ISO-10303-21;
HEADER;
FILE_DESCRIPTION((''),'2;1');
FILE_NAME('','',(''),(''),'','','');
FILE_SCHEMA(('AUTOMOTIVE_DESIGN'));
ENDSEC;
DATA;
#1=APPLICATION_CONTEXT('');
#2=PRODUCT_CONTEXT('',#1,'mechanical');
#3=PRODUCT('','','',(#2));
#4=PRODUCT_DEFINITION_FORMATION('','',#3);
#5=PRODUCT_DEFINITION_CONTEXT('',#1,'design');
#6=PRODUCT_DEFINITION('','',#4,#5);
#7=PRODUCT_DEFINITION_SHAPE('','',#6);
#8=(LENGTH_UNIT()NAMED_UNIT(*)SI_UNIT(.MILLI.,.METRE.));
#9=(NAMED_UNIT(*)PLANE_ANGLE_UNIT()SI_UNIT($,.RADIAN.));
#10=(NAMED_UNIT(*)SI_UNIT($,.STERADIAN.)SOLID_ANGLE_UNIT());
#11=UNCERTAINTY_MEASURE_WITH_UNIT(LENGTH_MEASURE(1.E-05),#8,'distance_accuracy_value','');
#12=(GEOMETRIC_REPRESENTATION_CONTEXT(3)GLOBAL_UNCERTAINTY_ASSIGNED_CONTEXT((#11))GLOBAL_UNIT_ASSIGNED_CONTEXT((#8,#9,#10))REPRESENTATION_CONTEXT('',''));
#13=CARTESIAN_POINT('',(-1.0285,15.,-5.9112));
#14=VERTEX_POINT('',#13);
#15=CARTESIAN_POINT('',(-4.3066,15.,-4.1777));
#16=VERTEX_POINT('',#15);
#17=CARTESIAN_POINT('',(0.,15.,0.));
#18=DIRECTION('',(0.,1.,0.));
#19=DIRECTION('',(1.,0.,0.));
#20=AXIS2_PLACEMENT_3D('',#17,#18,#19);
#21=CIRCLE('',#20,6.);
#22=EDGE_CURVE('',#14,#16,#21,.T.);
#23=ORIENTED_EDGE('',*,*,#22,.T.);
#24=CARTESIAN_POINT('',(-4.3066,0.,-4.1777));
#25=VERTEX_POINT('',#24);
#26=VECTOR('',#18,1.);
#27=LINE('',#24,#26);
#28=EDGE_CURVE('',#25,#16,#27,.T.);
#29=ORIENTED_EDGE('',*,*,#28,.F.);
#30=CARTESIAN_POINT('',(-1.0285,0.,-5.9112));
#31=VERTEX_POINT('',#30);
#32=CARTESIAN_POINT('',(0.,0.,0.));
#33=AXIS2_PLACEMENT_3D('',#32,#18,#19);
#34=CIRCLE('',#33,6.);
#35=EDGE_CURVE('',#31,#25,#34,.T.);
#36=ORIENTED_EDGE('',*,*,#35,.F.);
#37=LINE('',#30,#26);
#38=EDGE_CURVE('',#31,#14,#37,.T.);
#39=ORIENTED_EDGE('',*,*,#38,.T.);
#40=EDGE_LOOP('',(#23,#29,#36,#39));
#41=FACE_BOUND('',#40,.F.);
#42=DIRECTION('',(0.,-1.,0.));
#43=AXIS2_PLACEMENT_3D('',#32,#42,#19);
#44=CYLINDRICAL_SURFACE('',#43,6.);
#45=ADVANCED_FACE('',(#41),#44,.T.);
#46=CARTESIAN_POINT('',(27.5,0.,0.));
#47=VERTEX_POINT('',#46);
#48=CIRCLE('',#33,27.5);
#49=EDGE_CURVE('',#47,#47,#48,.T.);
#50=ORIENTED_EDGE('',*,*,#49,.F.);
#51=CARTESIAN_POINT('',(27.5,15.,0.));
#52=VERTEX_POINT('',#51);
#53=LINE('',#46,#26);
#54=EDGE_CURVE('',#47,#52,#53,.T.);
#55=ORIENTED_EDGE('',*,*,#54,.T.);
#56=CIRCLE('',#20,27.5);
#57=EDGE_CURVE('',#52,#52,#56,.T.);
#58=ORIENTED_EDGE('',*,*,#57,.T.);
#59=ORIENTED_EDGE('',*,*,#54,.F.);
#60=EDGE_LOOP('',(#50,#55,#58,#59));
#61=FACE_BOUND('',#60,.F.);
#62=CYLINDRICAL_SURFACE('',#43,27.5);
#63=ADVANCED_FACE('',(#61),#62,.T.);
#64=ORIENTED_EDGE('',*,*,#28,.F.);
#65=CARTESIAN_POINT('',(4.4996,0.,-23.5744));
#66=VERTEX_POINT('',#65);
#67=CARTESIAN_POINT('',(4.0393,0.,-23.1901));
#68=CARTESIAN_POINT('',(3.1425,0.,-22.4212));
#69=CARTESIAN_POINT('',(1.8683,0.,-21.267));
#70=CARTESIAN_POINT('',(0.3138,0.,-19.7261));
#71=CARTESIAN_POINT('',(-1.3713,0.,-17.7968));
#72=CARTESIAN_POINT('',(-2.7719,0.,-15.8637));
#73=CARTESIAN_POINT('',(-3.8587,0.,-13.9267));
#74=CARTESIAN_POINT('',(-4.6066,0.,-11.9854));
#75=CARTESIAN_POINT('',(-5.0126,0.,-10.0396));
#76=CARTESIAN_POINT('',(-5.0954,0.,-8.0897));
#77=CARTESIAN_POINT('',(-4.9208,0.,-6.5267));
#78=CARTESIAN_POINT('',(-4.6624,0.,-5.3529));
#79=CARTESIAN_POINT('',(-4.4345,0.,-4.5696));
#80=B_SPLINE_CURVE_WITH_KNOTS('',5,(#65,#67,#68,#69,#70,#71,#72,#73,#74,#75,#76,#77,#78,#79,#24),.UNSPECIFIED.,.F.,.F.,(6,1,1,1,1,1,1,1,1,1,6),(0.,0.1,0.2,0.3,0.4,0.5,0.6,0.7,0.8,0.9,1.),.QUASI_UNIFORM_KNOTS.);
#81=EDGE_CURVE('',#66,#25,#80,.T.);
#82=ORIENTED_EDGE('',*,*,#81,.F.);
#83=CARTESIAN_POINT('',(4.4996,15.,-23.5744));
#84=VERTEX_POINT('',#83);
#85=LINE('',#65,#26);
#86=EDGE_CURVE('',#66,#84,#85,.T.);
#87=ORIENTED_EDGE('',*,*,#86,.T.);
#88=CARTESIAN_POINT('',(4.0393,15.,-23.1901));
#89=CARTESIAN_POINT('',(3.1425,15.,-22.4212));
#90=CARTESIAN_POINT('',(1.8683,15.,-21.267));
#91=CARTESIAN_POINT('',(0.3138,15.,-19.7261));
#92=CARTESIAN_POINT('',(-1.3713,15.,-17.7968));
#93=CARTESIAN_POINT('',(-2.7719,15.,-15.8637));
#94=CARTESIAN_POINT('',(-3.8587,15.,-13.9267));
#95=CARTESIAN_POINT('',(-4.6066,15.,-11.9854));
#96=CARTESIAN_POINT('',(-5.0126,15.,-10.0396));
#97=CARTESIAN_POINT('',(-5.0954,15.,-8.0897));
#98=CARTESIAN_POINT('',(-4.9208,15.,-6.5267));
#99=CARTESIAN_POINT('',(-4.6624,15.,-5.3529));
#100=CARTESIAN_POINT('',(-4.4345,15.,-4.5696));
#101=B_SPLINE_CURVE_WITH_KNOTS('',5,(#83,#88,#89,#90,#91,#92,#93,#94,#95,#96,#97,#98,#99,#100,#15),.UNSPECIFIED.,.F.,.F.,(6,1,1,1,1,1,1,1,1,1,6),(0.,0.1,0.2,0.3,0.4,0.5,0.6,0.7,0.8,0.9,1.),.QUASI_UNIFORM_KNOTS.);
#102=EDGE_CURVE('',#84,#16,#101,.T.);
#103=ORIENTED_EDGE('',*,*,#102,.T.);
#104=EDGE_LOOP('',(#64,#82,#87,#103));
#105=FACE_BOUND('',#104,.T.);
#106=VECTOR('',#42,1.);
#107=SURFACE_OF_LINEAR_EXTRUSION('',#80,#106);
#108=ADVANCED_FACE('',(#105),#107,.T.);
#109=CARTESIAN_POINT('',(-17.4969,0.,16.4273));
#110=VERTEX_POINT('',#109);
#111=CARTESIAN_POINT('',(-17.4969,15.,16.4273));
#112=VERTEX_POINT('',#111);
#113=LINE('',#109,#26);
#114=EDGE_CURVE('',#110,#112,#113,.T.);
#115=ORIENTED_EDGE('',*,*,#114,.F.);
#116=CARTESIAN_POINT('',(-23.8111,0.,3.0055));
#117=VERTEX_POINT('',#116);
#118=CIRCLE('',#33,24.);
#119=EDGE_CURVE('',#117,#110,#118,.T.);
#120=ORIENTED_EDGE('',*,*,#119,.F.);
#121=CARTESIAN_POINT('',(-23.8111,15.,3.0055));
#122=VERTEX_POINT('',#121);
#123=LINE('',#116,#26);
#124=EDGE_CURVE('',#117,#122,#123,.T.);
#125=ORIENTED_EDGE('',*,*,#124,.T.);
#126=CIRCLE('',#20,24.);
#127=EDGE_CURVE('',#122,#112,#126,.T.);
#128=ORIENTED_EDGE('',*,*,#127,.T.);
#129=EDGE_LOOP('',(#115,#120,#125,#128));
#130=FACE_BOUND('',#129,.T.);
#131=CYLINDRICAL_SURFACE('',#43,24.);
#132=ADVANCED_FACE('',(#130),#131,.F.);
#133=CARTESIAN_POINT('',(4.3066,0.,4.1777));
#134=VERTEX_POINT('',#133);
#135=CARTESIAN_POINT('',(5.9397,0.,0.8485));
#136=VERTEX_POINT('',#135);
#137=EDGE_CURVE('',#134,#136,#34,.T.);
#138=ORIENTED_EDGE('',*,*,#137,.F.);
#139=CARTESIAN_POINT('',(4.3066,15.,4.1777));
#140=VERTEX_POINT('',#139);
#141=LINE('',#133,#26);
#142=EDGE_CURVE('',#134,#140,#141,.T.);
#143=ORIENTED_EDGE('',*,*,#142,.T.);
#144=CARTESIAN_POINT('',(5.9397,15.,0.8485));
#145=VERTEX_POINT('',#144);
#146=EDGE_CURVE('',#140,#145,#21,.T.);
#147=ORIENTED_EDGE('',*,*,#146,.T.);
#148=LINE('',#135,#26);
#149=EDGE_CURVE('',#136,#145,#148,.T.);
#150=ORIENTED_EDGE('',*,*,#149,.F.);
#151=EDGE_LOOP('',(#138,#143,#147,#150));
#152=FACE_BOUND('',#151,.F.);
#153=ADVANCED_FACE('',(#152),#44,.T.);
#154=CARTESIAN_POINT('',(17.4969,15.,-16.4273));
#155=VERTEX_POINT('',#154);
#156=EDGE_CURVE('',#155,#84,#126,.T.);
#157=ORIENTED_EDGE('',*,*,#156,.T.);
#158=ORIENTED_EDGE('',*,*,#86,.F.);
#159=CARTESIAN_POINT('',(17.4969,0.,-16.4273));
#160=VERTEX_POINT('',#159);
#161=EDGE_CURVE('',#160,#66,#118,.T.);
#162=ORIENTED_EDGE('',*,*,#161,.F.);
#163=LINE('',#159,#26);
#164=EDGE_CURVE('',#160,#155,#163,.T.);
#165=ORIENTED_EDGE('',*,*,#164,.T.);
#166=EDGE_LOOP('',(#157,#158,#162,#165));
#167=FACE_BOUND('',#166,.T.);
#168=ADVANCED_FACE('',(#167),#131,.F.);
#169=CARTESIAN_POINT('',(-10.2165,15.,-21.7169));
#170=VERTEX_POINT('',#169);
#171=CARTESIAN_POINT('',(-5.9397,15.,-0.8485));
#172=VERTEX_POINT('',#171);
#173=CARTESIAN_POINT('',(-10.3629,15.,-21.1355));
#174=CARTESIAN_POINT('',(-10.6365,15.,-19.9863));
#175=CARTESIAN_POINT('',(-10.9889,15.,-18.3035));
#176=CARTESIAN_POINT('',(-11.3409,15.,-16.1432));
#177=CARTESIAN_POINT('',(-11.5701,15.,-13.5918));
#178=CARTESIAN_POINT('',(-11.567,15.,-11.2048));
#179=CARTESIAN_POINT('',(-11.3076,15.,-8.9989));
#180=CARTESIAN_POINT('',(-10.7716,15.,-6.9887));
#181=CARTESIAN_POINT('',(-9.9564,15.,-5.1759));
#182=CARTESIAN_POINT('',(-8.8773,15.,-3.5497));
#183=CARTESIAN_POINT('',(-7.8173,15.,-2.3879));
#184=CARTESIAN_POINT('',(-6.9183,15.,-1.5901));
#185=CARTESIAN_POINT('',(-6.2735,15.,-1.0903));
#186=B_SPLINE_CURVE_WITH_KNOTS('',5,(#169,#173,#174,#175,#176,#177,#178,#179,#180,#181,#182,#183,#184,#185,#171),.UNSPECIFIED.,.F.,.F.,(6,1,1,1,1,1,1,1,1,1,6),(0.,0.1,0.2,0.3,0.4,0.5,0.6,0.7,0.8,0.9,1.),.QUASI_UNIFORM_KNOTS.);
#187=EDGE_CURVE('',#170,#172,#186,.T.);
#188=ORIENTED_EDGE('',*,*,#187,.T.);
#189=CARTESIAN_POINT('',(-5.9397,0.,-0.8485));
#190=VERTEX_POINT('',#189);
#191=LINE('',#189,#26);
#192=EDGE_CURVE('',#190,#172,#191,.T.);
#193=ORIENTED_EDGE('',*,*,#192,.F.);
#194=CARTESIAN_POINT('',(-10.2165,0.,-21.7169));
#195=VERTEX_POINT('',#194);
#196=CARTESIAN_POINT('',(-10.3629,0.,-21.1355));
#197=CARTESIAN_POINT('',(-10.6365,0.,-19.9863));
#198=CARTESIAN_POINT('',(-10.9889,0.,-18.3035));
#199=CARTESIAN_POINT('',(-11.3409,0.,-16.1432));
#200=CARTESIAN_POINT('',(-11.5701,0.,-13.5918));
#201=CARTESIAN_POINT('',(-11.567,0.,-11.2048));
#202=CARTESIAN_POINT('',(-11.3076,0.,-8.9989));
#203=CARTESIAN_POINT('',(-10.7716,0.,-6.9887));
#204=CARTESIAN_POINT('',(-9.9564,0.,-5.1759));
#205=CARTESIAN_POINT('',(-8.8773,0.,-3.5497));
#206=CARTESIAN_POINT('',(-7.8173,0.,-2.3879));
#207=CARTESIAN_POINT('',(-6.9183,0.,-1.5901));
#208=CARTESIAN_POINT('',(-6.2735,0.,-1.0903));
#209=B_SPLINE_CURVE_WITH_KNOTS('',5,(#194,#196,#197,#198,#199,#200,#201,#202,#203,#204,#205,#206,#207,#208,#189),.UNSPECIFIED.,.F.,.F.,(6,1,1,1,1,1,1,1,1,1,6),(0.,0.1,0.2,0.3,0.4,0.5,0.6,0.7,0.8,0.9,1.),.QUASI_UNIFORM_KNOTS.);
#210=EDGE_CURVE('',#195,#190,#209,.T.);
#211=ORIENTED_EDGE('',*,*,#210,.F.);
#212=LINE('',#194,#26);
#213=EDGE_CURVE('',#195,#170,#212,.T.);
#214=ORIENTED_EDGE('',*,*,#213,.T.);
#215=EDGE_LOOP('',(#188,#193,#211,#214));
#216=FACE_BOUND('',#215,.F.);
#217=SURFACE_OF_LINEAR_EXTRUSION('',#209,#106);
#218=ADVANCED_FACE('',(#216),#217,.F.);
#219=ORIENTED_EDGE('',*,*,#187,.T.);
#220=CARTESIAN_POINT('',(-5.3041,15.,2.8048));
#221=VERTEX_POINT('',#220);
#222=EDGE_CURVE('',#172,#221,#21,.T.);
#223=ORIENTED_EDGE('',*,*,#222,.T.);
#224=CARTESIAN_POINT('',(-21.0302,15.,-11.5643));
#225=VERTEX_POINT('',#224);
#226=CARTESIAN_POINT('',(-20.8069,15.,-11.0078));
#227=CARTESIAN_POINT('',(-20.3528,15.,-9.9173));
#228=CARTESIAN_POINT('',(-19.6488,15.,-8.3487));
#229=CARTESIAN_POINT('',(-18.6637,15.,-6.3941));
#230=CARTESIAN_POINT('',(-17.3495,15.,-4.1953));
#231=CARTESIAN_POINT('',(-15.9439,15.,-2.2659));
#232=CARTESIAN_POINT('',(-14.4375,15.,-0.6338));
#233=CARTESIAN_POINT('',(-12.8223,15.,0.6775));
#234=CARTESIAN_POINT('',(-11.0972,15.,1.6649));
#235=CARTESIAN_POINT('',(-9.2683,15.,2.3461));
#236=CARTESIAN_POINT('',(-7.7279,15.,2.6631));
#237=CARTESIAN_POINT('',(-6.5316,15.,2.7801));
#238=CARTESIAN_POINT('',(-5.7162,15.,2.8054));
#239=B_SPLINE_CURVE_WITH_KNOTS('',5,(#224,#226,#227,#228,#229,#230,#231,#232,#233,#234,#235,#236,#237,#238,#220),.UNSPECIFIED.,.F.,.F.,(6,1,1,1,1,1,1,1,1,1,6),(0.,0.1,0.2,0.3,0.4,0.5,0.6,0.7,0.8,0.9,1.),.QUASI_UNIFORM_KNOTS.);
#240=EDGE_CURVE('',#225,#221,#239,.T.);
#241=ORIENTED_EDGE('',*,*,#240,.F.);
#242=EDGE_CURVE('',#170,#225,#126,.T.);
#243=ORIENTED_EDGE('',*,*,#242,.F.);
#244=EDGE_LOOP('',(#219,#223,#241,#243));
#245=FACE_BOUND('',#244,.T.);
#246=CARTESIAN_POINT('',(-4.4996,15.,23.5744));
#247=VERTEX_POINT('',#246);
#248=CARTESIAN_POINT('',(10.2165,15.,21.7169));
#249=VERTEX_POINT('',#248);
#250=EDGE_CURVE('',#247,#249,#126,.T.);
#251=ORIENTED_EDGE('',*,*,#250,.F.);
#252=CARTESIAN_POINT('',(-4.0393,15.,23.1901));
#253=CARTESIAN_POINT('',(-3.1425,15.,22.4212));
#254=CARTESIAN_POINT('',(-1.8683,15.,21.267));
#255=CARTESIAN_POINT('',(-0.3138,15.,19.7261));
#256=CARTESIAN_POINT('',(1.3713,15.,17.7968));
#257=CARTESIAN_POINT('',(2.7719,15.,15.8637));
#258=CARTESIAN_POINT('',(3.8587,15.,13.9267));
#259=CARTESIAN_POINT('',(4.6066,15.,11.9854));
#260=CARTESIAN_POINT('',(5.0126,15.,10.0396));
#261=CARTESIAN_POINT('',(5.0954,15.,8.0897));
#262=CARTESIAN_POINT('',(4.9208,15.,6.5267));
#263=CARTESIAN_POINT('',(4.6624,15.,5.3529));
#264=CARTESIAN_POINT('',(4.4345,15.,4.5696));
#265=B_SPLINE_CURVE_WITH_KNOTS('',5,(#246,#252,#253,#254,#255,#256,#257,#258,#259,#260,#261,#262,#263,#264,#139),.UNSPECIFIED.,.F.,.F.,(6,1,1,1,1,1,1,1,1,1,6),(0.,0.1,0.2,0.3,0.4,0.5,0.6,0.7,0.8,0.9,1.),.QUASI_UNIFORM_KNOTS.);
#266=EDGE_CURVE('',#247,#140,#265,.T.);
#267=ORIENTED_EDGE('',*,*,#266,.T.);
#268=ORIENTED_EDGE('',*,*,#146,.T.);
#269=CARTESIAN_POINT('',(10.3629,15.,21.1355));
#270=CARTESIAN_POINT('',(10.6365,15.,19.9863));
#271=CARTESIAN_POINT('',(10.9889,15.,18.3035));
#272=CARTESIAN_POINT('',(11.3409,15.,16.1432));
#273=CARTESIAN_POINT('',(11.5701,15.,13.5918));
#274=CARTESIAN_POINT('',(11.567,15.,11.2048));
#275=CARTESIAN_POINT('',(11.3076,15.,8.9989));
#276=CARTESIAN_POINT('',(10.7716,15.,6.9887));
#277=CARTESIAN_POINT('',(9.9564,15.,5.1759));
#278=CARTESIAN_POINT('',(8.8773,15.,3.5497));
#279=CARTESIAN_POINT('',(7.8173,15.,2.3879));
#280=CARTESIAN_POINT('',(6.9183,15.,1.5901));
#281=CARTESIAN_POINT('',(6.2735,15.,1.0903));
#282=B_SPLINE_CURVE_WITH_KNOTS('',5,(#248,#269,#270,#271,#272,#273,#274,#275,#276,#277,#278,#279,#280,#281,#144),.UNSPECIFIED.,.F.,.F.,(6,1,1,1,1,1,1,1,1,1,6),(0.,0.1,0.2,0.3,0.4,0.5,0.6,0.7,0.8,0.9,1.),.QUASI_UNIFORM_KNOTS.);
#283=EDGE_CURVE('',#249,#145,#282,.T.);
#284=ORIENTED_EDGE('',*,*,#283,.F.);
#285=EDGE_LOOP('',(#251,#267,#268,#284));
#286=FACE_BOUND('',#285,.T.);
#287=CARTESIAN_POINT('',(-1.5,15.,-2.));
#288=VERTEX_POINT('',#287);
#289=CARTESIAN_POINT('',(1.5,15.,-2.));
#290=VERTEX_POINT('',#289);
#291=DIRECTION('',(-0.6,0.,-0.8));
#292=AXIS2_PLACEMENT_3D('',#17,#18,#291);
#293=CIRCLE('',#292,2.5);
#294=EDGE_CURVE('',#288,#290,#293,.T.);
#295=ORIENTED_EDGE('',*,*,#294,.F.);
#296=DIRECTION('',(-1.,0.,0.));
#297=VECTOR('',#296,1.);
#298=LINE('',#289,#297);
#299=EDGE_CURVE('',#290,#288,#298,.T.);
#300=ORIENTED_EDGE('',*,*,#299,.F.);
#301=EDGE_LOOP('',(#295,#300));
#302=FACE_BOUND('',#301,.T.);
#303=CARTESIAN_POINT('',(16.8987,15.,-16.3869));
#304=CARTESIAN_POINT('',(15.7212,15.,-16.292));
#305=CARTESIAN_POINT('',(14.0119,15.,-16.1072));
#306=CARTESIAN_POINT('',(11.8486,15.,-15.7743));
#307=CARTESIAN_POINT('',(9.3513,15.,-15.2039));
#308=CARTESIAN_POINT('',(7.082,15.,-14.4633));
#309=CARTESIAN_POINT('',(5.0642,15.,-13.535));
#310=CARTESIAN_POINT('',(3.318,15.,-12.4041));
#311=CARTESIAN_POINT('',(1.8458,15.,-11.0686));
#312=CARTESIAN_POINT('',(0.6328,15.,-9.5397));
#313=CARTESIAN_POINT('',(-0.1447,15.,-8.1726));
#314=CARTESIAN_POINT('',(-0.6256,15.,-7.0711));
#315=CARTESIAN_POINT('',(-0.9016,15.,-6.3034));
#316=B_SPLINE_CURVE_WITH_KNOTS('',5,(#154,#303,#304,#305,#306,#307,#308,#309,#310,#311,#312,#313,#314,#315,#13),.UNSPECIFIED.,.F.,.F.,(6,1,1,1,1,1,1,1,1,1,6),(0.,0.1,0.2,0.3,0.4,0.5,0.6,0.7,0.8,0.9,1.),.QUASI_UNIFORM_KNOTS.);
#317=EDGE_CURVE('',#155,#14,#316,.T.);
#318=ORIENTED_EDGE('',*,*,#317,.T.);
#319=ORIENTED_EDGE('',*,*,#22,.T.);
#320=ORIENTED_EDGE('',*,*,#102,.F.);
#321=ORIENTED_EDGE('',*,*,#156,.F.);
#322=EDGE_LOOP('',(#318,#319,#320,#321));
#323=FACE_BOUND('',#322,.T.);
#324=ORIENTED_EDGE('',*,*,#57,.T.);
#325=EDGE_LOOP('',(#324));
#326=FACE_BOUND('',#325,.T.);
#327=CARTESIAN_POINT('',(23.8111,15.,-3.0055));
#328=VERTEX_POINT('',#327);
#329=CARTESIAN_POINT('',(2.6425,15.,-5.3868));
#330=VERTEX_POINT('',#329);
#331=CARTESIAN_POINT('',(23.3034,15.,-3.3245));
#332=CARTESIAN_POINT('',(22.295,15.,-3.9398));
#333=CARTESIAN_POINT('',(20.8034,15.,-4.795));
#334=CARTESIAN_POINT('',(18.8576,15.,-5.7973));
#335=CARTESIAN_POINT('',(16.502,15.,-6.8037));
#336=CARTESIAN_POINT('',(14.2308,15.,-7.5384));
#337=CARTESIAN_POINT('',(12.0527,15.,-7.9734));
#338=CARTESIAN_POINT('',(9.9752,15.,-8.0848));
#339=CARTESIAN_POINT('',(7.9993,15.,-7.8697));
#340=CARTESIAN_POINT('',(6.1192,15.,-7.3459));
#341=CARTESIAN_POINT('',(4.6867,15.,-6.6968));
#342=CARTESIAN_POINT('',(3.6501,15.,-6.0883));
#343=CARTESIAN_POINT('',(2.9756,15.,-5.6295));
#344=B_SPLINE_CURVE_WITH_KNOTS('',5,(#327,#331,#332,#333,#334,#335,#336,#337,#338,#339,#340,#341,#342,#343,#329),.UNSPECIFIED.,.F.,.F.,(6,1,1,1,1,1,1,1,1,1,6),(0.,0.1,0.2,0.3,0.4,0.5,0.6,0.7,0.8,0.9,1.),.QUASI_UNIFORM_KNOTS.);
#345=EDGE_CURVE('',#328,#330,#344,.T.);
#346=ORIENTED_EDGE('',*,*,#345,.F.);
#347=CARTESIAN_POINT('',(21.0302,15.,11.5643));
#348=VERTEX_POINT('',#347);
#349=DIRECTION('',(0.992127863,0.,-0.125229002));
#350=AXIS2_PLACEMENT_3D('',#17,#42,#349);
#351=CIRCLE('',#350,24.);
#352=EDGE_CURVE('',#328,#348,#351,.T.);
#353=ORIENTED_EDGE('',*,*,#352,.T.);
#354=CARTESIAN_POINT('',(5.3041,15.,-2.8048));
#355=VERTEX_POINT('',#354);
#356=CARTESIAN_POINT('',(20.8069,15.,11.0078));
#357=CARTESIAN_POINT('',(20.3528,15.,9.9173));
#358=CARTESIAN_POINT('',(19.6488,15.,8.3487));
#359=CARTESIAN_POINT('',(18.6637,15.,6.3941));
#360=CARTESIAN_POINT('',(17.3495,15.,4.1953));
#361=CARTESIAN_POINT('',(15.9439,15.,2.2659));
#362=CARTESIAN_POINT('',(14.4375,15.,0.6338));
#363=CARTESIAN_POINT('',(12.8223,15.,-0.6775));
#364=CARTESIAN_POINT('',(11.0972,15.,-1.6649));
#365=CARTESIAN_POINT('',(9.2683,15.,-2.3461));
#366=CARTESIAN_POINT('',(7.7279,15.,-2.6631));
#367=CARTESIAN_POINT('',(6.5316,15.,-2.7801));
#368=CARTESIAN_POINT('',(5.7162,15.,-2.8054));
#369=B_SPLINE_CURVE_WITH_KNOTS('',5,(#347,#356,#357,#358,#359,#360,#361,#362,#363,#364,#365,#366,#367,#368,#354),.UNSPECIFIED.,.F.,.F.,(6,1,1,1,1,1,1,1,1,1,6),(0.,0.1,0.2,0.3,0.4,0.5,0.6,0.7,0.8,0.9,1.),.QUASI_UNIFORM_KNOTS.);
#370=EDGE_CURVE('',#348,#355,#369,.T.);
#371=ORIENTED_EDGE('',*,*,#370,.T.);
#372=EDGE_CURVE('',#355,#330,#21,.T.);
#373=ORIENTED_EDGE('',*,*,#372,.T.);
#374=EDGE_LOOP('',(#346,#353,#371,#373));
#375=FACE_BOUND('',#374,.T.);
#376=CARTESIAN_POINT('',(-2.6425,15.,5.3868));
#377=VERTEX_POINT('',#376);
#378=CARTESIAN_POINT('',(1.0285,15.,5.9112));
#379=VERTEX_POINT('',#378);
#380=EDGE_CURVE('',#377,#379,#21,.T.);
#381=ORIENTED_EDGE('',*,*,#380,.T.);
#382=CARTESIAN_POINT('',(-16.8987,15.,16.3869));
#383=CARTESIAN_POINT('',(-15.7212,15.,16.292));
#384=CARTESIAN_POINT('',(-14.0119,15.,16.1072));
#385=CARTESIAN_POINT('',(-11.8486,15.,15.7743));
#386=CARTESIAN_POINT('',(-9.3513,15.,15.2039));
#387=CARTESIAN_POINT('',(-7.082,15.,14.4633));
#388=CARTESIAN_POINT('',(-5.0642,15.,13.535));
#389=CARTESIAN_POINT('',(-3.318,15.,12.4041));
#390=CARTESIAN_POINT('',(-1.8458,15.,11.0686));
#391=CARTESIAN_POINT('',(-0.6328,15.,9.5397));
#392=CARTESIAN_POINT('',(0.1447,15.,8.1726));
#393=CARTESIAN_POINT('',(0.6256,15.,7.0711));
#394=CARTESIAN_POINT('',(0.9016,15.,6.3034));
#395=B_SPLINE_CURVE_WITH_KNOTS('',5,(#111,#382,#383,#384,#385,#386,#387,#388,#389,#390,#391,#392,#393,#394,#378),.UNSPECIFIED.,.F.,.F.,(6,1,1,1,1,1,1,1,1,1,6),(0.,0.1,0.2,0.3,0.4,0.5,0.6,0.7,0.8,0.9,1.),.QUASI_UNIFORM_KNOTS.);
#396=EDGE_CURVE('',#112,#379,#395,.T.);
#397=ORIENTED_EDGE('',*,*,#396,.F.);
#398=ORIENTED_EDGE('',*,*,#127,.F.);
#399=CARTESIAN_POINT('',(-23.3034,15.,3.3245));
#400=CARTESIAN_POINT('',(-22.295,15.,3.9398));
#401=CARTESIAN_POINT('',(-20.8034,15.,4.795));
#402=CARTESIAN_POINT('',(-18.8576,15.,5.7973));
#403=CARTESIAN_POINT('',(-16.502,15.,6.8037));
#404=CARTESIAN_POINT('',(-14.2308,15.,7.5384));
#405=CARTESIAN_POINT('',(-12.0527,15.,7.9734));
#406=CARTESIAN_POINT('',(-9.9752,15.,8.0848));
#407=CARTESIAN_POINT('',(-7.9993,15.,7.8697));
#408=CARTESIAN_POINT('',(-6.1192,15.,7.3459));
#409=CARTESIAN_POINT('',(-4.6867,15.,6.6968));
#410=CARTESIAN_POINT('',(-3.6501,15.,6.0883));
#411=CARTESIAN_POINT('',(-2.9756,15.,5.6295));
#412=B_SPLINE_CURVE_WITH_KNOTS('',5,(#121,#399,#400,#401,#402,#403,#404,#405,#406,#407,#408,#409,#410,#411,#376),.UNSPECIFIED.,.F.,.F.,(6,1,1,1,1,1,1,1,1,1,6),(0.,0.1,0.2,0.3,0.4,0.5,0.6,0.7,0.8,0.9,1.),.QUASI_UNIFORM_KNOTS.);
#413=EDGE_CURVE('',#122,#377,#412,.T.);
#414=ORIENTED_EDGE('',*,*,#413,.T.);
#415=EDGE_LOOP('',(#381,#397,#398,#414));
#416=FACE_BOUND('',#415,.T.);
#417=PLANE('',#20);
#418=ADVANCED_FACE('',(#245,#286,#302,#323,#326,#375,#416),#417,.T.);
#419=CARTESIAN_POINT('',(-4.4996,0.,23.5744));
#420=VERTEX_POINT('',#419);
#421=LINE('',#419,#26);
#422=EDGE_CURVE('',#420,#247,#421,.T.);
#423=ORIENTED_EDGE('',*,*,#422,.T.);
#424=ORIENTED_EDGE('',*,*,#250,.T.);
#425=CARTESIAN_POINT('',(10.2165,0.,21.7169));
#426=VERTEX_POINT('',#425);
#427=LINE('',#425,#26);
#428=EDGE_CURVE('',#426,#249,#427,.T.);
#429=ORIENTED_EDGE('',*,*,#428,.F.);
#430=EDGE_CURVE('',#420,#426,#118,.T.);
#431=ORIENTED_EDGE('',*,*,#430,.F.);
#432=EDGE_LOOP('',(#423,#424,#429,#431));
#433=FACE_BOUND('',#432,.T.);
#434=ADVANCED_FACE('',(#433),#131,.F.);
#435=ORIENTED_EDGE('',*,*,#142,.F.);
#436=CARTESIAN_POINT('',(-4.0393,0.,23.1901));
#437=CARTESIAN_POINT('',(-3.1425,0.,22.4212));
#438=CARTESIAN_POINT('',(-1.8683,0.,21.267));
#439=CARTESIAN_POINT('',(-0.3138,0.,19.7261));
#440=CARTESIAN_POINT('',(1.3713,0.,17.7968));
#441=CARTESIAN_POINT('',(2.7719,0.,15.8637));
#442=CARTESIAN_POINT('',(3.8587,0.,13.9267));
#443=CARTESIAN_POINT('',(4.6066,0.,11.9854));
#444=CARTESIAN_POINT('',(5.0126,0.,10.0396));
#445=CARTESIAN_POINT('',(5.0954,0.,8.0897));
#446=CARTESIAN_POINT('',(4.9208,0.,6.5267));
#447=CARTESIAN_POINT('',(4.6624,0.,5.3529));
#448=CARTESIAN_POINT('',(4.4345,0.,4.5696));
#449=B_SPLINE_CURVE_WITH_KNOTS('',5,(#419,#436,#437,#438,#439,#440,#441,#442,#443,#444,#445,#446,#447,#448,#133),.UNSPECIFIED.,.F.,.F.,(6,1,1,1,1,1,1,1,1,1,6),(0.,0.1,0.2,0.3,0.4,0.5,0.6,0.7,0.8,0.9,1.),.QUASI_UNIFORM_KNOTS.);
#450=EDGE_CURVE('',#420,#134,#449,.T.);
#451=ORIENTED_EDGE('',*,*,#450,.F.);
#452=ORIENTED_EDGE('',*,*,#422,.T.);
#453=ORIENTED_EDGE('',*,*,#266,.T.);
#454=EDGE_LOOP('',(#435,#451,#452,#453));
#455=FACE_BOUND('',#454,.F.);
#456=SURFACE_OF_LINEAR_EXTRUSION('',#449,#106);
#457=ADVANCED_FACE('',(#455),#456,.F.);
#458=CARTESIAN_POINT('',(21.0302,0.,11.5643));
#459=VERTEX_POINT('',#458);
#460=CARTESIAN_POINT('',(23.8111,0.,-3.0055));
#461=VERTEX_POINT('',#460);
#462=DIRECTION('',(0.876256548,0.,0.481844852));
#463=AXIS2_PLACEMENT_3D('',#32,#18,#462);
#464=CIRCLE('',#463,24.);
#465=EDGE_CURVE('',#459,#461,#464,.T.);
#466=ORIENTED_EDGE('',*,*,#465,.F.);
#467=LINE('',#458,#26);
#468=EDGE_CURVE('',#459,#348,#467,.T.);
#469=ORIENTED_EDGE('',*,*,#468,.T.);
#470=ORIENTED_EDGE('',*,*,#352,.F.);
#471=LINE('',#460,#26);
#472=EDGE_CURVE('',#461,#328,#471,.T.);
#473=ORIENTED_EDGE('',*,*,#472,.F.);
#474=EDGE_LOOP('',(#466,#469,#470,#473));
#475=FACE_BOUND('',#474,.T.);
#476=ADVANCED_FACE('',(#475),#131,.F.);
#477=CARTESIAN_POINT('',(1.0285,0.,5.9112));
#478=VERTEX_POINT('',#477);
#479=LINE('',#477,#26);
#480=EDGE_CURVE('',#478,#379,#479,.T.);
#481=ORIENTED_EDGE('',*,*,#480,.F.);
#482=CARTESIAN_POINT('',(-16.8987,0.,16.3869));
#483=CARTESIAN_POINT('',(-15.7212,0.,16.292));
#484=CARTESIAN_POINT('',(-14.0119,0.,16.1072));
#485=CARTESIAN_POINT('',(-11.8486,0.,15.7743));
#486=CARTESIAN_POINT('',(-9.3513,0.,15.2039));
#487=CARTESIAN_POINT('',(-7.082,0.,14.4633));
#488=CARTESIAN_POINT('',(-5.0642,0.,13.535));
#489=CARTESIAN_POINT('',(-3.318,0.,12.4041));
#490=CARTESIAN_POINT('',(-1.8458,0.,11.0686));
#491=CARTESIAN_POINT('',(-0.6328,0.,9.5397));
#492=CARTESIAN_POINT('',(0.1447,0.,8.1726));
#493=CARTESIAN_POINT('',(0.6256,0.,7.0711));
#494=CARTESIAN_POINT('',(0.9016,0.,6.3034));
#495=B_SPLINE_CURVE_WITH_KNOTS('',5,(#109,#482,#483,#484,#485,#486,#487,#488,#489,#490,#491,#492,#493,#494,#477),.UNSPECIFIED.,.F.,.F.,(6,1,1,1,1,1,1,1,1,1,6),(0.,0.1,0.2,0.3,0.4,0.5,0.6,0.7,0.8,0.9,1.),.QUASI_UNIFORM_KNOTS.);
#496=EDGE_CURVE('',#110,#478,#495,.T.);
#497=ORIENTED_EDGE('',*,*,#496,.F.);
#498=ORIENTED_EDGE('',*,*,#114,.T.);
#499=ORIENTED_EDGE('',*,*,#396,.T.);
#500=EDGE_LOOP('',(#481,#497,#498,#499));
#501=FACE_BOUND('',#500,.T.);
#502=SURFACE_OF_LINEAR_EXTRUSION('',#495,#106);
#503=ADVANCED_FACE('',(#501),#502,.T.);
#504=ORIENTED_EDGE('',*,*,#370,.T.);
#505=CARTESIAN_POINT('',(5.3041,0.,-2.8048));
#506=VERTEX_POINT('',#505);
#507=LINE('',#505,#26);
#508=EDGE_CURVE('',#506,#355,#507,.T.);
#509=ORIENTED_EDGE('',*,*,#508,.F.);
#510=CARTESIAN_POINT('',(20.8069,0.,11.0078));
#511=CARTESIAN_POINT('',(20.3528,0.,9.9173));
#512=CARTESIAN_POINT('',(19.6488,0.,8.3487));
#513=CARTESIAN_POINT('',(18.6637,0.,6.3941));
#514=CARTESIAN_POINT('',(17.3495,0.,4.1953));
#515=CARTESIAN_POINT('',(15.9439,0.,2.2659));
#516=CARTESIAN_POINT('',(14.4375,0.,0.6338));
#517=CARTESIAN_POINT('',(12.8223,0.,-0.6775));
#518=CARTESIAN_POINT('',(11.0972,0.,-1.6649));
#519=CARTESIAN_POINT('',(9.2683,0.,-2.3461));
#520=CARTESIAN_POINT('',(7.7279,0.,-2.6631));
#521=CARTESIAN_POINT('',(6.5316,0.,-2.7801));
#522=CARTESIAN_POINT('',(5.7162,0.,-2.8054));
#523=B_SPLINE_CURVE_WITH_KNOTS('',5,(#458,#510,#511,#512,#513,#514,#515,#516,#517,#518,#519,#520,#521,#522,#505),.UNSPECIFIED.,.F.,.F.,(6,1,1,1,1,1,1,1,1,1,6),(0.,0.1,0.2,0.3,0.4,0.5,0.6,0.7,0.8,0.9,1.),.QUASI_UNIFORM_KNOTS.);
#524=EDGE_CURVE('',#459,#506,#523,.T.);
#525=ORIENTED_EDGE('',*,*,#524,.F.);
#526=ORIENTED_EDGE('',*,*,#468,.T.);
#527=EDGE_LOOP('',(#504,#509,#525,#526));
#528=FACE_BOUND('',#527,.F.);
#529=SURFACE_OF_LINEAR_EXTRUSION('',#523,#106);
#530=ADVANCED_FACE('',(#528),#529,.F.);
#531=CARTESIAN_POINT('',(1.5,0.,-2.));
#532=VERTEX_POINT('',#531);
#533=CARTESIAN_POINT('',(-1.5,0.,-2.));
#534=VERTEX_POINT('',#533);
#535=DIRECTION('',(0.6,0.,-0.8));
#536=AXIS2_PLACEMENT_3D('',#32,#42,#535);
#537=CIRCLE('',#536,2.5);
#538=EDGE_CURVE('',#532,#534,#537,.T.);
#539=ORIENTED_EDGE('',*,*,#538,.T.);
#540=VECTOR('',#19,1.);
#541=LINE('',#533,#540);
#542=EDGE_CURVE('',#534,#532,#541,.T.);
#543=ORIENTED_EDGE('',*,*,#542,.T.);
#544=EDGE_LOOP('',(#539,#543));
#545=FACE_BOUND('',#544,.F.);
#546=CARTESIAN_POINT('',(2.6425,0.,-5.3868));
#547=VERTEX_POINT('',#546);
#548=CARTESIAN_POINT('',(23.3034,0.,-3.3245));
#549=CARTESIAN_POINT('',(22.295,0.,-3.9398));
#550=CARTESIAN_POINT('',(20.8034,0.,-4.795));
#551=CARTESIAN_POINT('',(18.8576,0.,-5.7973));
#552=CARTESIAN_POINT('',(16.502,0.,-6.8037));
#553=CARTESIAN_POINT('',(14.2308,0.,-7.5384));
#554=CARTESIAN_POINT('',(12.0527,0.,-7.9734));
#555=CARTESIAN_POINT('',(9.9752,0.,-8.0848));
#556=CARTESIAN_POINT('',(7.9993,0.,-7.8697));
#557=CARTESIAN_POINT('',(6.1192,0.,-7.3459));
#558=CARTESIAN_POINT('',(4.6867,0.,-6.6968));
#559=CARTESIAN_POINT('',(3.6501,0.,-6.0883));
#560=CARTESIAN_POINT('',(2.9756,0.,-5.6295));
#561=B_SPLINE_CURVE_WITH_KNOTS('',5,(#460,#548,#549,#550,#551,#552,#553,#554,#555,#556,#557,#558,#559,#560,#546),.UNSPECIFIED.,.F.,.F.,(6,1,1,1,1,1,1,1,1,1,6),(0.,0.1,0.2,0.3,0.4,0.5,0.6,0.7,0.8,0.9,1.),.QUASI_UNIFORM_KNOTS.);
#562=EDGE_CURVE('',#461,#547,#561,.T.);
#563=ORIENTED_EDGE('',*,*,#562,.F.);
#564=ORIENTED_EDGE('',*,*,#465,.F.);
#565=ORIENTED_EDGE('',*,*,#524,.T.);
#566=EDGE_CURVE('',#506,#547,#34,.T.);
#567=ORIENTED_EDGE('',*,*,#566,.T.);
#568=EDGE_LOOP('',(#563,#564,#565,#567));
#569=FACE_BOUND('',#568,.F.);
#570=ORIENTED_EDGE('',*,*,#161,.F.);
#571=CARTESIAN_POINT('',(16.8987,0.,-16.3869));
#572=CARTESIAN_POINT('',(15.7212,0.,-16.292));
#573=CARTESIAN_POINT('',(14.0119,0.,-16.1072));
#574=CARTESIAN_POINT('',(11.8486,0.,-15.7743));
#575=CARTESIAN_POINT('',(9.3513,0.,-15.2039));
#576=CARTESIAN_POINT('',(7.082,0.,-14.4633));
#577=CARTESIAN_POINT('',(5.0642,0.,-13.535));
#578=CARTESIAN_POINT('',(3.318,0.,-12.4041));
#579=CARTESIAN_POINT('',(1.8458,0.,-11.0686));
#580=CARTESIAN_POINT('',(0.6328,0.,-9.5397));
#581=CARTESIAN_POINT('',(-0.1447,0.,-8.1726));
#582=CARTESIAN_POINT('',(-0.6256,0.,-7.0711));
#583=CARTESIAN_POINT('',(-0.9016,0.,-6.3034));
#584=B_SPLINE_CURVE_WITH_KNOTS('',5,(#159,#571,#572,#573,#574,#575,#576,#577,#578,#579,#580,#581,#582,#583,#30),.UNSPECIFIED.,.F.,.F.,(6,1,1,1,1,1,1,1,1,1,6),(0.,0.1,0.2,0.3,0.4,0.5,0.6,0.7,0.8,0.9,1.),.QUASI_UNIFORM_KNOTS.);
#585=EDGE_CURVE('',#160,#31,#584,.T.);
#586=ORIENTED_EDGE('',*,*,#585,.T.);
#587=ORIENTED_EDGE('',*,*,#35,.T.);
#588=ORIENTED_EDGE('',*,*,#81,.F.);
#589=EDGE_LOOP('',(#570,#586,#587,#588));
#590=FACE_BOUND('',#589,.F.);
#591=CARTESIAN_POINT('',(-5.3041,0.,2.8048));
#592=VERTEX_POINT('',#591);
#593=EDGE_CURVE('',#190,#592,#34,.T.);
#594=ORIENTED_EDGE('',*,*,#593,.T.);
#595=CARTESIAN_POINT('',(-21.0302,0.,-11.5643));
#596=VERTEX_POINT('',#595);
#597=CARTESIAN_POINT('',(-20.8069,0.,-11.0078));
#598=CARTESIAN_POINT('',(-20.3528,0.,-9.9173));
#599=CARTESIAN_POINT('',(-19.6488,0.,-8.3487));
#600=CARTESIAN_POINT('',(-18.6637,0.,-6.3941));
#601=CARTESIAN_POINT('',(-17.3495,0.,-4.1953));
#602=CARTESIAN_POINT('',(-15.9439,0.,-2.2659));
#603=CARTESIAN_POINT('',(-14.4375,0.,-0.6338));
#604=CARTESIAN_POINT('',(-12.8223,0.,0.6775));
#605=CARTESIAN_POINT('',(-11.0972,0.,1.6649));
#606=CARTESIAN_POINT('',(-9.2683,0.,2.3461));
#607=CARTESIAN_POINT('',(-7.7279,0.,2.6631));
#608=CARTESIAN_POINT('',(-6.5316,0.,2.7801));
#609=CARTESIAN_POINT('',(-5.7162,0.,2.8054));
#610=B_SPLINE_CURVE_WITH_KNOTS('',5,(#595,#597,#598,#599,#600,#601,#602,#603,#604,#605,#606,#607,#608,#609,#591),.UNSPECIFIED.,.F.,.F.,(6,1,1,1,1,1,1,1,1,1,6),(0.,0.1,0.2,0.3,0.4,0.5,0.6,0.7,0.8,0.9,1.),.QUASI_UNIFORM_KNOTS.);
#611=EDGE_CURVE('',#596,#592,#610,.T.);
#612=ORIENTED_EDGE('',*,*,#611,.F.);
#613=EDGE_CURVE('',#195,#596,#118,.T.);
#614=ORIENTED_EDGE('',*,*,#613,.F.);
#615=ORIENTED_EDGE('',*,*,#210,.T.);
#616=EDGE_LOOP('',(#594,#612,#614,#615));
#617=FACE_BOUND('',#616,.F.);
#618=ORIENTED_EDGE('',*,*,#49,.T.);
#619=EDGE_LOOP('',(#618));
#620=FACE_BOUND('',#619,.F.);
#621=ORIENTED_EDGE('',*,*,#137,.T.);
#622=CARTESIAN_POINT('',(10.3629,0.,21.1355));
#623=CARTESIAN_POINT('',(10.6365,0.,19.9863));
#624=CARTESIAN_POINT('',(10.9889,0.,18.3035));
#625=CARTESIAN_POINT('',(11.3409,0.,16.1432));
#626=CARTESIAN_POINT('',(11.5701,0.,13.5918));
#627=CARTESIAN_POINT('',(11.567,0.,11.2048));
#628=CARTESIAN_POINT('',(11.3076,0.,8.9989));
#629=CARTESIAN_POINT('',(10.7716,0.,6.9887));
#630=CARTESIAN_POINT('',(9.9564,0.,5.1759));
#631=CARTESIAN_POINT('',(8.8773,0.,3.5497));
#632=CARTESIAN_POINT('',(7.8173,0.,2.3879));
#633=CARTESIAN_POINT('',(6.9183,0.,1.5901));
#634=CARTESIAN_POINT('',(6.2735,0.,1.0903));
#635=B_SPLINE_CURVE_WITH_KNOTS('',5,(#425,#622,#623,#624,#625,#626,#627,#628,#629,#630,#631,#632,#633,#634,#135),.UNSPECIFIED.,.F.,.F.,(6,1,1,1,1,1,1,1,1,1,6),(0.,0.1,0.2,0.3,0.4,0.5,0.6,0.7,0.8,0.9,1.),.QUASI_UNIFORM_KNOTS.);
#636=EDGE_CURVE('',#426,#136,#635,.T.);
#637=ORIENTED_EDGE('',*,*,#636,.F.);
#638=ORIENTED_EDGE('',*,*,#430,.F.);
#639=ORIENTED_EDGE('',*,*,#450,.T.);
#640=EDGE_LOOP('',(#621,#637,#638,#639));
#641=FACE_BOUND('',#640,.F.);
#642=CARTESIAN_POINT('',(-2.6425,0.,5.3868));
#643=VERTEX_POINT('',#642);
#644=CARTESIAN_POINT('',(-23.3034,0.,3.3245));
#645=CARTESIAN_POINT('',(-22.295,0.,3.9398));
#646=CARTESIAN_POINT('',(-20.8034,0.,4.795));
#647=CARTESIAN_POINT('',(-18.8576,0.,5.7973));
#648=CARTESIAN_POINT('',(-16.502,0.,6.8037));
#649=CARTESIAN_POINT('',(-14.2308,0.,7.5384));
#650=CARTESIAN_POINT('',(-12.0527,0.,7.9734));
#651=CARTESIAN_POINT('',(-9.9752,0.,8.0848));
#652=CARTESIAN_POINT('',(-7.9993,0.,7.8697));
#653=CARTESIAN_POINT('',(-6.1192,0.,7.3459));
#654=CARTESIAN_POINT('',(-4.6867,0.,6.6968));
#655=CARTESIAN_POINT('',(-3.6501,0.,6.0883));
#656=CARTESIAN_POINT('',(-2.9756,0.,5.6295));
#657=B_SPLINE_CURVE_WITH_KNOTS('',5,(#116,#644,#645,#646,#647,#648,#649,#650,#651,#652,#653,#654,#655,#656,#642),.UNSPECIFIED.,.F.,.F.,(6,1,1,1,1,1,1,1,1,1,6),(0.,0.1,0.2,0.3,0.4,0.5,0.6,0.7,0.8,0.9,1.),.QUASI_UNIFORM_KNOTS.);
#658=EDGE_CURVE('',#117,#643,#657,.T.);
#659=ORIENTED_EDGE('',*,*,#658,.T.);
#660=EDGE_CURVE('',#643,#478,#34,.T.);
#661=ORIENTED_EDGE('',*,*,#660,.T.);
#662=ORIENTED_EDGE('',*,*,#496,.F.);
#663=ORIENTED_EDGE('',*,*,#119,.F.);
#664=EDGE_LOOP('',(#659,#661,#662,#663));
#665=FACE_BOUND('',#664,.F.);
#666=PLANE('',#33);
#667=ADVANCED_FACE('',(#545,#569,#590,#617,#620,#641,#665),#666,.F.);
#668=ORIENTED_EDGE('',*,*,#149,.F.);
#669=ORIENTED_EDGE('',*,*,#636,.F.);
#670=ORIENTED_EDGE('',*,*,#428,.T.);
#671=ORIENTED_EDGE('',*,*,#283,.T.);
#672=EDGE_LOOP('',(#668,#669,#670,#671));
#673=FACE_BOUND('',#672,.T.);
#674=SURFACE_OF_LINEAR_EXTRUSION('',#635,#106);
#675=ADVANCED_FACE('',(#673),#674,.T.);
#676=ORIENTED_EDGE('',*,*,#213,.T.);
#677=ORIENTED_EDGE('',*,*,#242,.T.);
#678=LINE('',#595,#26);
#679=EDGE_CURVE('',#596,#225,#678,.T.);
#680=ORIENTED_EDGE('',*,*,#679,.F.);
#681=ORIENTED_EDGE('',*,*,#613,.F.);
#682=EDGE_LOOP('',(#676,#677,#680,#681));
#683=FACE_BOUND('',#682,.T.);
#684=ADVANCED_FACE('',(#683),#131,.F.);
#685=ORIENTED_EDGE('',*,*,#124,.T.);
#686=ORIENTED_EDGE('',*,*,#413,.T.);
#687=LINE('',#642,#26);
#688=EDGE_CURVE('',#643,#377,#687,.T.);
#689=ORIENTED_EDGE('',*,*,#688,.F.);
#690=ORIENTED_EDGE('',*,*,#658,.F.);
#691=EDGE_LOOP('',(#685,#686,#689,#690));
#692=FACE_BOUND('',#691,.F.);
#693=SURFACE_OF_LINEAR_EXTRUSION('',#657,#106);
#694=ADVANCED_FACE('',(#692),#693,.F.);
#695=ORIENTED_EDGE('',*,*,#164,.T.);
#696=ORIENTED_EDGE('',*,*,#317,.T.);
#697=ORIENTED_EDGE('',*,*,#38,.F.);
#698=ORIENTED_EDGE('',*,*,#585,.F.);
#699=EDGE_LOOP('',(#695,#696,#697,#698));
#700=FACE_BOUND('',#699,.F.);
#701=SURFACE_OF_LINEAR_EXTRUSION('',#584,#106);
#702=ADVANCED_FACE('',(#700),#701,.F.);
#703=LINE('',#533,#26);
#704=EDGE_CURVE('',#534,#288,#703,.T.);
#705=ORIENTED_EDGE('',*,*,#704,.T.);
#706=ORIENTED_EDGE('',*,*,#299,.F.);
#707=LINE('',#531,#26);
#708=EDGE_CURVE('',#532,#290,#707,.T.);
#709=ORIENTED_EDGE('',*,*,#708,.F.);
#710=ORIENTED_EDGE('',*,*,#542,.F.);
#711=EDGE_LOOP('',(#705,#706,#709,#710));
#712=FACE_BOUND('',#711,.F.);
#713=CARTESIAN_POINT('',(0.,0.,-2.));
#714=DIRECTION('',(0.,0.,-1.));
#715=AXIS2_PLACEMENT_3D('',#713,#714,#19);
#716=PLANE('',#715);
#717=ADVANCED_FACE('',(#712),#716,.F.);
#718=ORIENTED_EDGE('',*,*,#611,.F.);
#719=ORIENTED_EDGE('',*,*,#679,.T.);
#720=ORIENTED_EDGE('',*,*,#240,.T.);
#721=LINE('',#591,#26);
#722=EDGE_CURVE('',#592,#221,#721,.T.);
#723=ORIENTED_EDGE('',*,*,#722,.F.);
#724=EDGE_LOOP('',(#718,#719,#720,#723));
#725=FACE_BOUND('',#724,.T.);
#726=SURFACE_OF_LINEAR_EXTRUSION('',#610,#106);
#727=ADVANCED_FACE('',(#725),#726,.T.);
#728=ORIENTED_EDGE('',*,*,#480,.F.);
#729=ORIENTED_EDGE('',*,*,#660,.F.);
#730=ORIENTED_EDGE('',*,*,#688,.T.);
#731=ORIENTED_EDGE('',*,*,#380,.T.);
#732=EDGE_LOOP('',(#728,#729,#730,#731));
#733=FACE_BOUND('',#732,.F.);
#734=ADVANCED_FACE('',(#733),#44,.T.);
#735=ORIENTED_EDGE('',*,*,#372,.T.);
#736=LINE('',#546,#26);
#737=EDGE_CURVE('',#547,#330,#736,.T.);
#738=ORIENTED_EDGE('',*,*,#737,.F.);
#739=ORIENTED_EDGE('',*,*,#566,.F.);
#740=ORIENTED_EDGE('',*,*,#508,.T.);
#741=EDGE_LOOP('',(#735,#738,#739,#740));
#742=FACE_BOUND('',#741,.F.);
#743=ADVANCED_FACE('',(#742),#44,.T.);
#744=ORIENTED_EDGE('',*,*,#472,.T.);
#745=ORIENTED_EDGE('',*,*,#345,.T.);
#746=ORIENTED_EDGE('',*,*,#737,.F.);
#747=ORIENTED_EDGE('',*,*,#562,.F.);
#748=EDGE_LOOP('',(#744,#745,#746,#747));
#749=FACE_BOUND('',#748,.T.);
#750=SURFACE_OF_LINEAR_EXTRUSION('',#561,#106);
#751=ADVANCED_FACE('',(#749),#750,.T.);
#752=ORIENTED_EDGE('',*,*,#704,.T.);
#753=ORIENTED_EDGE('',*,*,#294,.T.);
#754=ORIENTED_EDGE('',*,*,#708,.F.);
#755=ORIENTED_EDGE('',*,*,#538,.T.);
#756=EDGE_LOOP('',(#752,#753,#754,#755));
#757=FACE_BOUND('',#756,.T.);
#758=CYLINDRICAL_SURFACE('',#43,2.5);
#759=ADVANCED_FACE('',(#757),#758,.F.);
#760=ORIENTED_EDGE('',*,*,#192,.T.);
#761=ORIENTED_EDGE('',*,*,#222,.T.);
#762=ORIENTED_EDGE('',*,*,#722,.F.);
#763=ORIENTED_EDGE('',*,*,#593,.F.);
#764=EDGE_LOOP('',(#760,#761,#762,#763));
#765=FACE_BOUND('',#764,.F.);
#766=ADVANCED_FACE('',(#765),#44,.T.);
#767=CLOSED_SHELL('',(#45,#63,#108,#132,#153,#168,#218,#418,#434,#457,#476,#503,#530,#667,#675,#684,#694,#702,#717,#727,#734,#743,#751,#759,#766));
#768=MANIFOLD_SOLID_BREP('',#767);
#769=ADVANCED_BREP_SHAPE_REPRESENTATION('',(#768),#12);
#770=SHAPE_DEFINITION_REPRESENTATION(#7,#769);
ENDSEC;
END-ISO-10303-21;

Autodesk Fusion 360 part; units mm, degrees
sketch "Sketch1" plane through (0, 0, 0) normal (0, 1, 0) x (1, 0, 0)
  circle A0 centre (0, 0) radius 2.5
  circle A1 centre (0, 0) radius 27.5
  circle A2 centre (0, 0) radius 6
  circle A3 centre (0, 0) radius 24
  line L0 (0, 0) -> (0, 2.5)
  line L1 (-1.5, 2) -> (1.5, 2)
  line L2 (1.5, 2) -> (1.5, -2)
  line L3 (1.5, -2) -> (-1.5, -2)
  line L4 (-1.5, -2) -> (-1.5, 2)
  line L5 (0, 0) -> (0, -2.5)
  spline S0 degree 5 poles (-10.2165, 21.7169) (-10.3629, 21.1355) (-10.6365, 19.9863) (-10.9889, 18.3035) (-11.3409, 16.1432) (-11.5701, 13.5918) (-11.567, 11.2048) (-11.3076, 8.9989) (-10.7716, 6.9887) (-9.9564, 5.1759) (-8.8773, 3.5497) (-7.8173, 2.3879) (-6.9183, 1.5901) (-6.2735, 1.0903) (-5.9397, 0.8485) knots 0 0 0 0 0 0 0.1 0.2 0.3 0.4 0.5 0.6 0.7 0.8 0.9 1 1 1 1 1 1
  spline S1 degree 5 poles (-21.0302, 11.5643) (-20.8069, 11.0078) (-20.3528, 9.9173) (-19.6488, 8.3487) (-18.6637, 6.3941) (-17.3495, 4.1953) (-15.9439, 2.2659) (-14.4375, 0.6338) (-12.8223, -0.6775) (-11.0972, -1.6649) (-9.2683, -2.3461) (-7.7279, -2.6631) (-6.5316, -2.7801) (-5.7162, -2.8054) (-5.3041, -2.8048) knots 0 0 0 0 0 0 0.1 0.2 0.3 0.4 0.5 0.6 0.7 0.8 0.9 1 1 1 1 1 1
  spline S2 degree 5 poles (-23.8111, -3.0055) (-23.3034, -3.3245) (-22.295, -3.9398) (-20.8034, -4.795) (-18.8576, -5.7973) (-16.502, -6.8037) (-14.2308, -7.5384) (-12.0527, -7.9734) (-9.9752, -8.0848) (-7.9993, -7.8697) (-6.1192, -7.3459) (-4.6867, -6.6968) (-3.6501, -6.0883) (-2.9756, -5.6295) (-2.6425, -5.3868) knots 0 0 0 0 0 0 0.1 0.2 0.3 0.4 0.5 0.6 0.7 0.8 0.9 1 1 1 1 1 1
  spline S3 degree 5 poles (-17.4969, -16.4273) (-16.8987, -16.3869) (-15.7212, -16.292) (-14.0119, -16.1072) (-11.8486, -15.7743) (-9.3513, -15.2039) (-7.082, -14.4633) (-5.0642, -13.535) (-3.318, -12.4041) (-1.8458, -11.0686) (-0.6328, -9.5397) (0.1447, -8.1726) (0.6256, -7.0711) (0.9016, -6.3034) (1.0285, -5.9112) knots 0 0 0 0 0 0 0.1 0.2 0.3 0.4 0.5 0.6 0.7 0.8 0.9 1 1 1 1 1 1
  spline S4 degree 5 poles (-4.4996, -23.5744) (-4.0393, -23.1901) (-3.1425, -22.4212) (-1.8683, -21.267) (-0.3138, -19.7261) (1.3713, -17.7968) (2.7719, -15.8637) (3.8587, -13.9267) (4.6066, -11.9854) (5.0126, -10.0396) (5.0954, -8.0897) (4.9208, -6.5267) (4.6624, -5.3529) (4.4345, -4.5696) (4.3066, -4.1777) knots 0 0 0 0 0 0 0.1 0.2 0.3 0.4 0.5 0.6 0.7 0.8 0.9 1 1 1 1 1 1
  spline S5 degree 5 poles (10.2165, -21.7169) (10.3629, -21.1355) (10.6365, -19.9863) (10.9889, -18.3035) (11.3409, -16.1432) (11.5701, -13.5918) (11.567, -11.2048) (11.3076, -8.9989) (10.7716, -6.9887) (9.9564, -5.1759) (8.8773, -3.5497) (7.8173, -2.3879) (6.9183, -1.5901) (6.2735, -1.0903) (5.9397, -0.8485) knots 0 0 0 0 0 0 0.1 0.2 0.3 0.4 0.5 0.6 0.7 0.8 0.9 1 1 1 1 1 1
  spline S6 degree 5 poles (21.0302, -11.5643) (20.8069, -11.0078) (20.3528, -9.9173) (19.6488, -8.3487) (18.6637, -6.3941) (17.3495, -4.1953) (15.9439, -2.2659) (14.4375, -0.6338) (12.8223, 0.6775) (11.0972, 1.6649) (9.2683, 2.3461) (7.7279, 2.6631) (6.5316, 2.7801) (5.7162, 2.8054) (5.3041, 2.8048) knots 0 0 0 0 0 0 0.1 0.2 0.3 0.4 0.5 0.6 0.7 0.8 0.9 1 1 1 1 1 1
  spline S7 degree 5 poles (23.8111, 3.0055) (23.3034, 3.3245) (22.295, 3.9398) (20.8034, 4.795) (18.8576, 5.7973) (16.502, 6.8037) (14.2308, 7.5384) (12.0527, 7.9734) (9.9752, 8.0848) (7.9993, 7.8697) (6.1192, 7.3459) (4.6867, 6.6968) (3.6501, 6.0883) (2.9756, 5.6295) (2.6425, 5.3868) knots 0 0 0 0 0 0 0.1 0.2 0.3 0.4 0.5 0.6 0.7 0.8 0.9 1 1 1 1 1 1
  spline S8 degree 5 poles (17.4969, 16.4273) (16.8987, 16.3869) (15.7212, 16.292) (14.0119, 16.1072) (11.8486, 15.7743) (9.3513, 15.2039) (7.082, 14.4633) (5.0642, 13.535) (3.318, 12.4041) (1.8458, 11.0686) (0.6328, 9.5397) (-0.1447, 8.1726) (-0.6256, 7.0711) (-0.9016, 6.3034) (-1.0285, 5.9112) knots 0 0 0 0 0 0 0.1 0.2 0.3 0.4 0.5 0.6 0.7 0.8 0.9 1 1 1 1 1 1
  spline S9 degree 5 poles (4.4996, 23.5744) (4.0393, 23.1901) (3.1425, 22.4212) (1.8683, 21.267) (0.3138, 19.7261) (-1.3713, 17.7968) (-2.7719, 15.8637) (-3.8587, 13.9267) (-4.6066, 11.9854) (-5.0126, 10.0396) (-5.0954, 8.0897) (-4.9208, 6.5267) (-4.6624, 5.3529) (-4.4345, 4.5696) (-4.3066, 4.1777) knots 0 0 0 0 0 0 0.1 0.2 0.3 0.4 0.5 0.6 0.7 0.8 0.9 1 1 1 1 1 1
  dimension "d1" = 5
  dimension "d2" = 55
  dimension "d3" = 12
  dimension "d4" = 48
  dimension "d5" = 0.5
  dimension "d6" = 0.5
  dimension "d8" = 360
extrude "Extrude1" add sketch "Sketch1" along normal blind 15 contours A0 L0 L1 | A0 L0 L1 | A1 | A2 | A2 A3 S5 S6 | A2 A3 S7 S8 | A2 A3 S3 S4 | A2 A3 S0 S9 | A2 A3 S1 S2
